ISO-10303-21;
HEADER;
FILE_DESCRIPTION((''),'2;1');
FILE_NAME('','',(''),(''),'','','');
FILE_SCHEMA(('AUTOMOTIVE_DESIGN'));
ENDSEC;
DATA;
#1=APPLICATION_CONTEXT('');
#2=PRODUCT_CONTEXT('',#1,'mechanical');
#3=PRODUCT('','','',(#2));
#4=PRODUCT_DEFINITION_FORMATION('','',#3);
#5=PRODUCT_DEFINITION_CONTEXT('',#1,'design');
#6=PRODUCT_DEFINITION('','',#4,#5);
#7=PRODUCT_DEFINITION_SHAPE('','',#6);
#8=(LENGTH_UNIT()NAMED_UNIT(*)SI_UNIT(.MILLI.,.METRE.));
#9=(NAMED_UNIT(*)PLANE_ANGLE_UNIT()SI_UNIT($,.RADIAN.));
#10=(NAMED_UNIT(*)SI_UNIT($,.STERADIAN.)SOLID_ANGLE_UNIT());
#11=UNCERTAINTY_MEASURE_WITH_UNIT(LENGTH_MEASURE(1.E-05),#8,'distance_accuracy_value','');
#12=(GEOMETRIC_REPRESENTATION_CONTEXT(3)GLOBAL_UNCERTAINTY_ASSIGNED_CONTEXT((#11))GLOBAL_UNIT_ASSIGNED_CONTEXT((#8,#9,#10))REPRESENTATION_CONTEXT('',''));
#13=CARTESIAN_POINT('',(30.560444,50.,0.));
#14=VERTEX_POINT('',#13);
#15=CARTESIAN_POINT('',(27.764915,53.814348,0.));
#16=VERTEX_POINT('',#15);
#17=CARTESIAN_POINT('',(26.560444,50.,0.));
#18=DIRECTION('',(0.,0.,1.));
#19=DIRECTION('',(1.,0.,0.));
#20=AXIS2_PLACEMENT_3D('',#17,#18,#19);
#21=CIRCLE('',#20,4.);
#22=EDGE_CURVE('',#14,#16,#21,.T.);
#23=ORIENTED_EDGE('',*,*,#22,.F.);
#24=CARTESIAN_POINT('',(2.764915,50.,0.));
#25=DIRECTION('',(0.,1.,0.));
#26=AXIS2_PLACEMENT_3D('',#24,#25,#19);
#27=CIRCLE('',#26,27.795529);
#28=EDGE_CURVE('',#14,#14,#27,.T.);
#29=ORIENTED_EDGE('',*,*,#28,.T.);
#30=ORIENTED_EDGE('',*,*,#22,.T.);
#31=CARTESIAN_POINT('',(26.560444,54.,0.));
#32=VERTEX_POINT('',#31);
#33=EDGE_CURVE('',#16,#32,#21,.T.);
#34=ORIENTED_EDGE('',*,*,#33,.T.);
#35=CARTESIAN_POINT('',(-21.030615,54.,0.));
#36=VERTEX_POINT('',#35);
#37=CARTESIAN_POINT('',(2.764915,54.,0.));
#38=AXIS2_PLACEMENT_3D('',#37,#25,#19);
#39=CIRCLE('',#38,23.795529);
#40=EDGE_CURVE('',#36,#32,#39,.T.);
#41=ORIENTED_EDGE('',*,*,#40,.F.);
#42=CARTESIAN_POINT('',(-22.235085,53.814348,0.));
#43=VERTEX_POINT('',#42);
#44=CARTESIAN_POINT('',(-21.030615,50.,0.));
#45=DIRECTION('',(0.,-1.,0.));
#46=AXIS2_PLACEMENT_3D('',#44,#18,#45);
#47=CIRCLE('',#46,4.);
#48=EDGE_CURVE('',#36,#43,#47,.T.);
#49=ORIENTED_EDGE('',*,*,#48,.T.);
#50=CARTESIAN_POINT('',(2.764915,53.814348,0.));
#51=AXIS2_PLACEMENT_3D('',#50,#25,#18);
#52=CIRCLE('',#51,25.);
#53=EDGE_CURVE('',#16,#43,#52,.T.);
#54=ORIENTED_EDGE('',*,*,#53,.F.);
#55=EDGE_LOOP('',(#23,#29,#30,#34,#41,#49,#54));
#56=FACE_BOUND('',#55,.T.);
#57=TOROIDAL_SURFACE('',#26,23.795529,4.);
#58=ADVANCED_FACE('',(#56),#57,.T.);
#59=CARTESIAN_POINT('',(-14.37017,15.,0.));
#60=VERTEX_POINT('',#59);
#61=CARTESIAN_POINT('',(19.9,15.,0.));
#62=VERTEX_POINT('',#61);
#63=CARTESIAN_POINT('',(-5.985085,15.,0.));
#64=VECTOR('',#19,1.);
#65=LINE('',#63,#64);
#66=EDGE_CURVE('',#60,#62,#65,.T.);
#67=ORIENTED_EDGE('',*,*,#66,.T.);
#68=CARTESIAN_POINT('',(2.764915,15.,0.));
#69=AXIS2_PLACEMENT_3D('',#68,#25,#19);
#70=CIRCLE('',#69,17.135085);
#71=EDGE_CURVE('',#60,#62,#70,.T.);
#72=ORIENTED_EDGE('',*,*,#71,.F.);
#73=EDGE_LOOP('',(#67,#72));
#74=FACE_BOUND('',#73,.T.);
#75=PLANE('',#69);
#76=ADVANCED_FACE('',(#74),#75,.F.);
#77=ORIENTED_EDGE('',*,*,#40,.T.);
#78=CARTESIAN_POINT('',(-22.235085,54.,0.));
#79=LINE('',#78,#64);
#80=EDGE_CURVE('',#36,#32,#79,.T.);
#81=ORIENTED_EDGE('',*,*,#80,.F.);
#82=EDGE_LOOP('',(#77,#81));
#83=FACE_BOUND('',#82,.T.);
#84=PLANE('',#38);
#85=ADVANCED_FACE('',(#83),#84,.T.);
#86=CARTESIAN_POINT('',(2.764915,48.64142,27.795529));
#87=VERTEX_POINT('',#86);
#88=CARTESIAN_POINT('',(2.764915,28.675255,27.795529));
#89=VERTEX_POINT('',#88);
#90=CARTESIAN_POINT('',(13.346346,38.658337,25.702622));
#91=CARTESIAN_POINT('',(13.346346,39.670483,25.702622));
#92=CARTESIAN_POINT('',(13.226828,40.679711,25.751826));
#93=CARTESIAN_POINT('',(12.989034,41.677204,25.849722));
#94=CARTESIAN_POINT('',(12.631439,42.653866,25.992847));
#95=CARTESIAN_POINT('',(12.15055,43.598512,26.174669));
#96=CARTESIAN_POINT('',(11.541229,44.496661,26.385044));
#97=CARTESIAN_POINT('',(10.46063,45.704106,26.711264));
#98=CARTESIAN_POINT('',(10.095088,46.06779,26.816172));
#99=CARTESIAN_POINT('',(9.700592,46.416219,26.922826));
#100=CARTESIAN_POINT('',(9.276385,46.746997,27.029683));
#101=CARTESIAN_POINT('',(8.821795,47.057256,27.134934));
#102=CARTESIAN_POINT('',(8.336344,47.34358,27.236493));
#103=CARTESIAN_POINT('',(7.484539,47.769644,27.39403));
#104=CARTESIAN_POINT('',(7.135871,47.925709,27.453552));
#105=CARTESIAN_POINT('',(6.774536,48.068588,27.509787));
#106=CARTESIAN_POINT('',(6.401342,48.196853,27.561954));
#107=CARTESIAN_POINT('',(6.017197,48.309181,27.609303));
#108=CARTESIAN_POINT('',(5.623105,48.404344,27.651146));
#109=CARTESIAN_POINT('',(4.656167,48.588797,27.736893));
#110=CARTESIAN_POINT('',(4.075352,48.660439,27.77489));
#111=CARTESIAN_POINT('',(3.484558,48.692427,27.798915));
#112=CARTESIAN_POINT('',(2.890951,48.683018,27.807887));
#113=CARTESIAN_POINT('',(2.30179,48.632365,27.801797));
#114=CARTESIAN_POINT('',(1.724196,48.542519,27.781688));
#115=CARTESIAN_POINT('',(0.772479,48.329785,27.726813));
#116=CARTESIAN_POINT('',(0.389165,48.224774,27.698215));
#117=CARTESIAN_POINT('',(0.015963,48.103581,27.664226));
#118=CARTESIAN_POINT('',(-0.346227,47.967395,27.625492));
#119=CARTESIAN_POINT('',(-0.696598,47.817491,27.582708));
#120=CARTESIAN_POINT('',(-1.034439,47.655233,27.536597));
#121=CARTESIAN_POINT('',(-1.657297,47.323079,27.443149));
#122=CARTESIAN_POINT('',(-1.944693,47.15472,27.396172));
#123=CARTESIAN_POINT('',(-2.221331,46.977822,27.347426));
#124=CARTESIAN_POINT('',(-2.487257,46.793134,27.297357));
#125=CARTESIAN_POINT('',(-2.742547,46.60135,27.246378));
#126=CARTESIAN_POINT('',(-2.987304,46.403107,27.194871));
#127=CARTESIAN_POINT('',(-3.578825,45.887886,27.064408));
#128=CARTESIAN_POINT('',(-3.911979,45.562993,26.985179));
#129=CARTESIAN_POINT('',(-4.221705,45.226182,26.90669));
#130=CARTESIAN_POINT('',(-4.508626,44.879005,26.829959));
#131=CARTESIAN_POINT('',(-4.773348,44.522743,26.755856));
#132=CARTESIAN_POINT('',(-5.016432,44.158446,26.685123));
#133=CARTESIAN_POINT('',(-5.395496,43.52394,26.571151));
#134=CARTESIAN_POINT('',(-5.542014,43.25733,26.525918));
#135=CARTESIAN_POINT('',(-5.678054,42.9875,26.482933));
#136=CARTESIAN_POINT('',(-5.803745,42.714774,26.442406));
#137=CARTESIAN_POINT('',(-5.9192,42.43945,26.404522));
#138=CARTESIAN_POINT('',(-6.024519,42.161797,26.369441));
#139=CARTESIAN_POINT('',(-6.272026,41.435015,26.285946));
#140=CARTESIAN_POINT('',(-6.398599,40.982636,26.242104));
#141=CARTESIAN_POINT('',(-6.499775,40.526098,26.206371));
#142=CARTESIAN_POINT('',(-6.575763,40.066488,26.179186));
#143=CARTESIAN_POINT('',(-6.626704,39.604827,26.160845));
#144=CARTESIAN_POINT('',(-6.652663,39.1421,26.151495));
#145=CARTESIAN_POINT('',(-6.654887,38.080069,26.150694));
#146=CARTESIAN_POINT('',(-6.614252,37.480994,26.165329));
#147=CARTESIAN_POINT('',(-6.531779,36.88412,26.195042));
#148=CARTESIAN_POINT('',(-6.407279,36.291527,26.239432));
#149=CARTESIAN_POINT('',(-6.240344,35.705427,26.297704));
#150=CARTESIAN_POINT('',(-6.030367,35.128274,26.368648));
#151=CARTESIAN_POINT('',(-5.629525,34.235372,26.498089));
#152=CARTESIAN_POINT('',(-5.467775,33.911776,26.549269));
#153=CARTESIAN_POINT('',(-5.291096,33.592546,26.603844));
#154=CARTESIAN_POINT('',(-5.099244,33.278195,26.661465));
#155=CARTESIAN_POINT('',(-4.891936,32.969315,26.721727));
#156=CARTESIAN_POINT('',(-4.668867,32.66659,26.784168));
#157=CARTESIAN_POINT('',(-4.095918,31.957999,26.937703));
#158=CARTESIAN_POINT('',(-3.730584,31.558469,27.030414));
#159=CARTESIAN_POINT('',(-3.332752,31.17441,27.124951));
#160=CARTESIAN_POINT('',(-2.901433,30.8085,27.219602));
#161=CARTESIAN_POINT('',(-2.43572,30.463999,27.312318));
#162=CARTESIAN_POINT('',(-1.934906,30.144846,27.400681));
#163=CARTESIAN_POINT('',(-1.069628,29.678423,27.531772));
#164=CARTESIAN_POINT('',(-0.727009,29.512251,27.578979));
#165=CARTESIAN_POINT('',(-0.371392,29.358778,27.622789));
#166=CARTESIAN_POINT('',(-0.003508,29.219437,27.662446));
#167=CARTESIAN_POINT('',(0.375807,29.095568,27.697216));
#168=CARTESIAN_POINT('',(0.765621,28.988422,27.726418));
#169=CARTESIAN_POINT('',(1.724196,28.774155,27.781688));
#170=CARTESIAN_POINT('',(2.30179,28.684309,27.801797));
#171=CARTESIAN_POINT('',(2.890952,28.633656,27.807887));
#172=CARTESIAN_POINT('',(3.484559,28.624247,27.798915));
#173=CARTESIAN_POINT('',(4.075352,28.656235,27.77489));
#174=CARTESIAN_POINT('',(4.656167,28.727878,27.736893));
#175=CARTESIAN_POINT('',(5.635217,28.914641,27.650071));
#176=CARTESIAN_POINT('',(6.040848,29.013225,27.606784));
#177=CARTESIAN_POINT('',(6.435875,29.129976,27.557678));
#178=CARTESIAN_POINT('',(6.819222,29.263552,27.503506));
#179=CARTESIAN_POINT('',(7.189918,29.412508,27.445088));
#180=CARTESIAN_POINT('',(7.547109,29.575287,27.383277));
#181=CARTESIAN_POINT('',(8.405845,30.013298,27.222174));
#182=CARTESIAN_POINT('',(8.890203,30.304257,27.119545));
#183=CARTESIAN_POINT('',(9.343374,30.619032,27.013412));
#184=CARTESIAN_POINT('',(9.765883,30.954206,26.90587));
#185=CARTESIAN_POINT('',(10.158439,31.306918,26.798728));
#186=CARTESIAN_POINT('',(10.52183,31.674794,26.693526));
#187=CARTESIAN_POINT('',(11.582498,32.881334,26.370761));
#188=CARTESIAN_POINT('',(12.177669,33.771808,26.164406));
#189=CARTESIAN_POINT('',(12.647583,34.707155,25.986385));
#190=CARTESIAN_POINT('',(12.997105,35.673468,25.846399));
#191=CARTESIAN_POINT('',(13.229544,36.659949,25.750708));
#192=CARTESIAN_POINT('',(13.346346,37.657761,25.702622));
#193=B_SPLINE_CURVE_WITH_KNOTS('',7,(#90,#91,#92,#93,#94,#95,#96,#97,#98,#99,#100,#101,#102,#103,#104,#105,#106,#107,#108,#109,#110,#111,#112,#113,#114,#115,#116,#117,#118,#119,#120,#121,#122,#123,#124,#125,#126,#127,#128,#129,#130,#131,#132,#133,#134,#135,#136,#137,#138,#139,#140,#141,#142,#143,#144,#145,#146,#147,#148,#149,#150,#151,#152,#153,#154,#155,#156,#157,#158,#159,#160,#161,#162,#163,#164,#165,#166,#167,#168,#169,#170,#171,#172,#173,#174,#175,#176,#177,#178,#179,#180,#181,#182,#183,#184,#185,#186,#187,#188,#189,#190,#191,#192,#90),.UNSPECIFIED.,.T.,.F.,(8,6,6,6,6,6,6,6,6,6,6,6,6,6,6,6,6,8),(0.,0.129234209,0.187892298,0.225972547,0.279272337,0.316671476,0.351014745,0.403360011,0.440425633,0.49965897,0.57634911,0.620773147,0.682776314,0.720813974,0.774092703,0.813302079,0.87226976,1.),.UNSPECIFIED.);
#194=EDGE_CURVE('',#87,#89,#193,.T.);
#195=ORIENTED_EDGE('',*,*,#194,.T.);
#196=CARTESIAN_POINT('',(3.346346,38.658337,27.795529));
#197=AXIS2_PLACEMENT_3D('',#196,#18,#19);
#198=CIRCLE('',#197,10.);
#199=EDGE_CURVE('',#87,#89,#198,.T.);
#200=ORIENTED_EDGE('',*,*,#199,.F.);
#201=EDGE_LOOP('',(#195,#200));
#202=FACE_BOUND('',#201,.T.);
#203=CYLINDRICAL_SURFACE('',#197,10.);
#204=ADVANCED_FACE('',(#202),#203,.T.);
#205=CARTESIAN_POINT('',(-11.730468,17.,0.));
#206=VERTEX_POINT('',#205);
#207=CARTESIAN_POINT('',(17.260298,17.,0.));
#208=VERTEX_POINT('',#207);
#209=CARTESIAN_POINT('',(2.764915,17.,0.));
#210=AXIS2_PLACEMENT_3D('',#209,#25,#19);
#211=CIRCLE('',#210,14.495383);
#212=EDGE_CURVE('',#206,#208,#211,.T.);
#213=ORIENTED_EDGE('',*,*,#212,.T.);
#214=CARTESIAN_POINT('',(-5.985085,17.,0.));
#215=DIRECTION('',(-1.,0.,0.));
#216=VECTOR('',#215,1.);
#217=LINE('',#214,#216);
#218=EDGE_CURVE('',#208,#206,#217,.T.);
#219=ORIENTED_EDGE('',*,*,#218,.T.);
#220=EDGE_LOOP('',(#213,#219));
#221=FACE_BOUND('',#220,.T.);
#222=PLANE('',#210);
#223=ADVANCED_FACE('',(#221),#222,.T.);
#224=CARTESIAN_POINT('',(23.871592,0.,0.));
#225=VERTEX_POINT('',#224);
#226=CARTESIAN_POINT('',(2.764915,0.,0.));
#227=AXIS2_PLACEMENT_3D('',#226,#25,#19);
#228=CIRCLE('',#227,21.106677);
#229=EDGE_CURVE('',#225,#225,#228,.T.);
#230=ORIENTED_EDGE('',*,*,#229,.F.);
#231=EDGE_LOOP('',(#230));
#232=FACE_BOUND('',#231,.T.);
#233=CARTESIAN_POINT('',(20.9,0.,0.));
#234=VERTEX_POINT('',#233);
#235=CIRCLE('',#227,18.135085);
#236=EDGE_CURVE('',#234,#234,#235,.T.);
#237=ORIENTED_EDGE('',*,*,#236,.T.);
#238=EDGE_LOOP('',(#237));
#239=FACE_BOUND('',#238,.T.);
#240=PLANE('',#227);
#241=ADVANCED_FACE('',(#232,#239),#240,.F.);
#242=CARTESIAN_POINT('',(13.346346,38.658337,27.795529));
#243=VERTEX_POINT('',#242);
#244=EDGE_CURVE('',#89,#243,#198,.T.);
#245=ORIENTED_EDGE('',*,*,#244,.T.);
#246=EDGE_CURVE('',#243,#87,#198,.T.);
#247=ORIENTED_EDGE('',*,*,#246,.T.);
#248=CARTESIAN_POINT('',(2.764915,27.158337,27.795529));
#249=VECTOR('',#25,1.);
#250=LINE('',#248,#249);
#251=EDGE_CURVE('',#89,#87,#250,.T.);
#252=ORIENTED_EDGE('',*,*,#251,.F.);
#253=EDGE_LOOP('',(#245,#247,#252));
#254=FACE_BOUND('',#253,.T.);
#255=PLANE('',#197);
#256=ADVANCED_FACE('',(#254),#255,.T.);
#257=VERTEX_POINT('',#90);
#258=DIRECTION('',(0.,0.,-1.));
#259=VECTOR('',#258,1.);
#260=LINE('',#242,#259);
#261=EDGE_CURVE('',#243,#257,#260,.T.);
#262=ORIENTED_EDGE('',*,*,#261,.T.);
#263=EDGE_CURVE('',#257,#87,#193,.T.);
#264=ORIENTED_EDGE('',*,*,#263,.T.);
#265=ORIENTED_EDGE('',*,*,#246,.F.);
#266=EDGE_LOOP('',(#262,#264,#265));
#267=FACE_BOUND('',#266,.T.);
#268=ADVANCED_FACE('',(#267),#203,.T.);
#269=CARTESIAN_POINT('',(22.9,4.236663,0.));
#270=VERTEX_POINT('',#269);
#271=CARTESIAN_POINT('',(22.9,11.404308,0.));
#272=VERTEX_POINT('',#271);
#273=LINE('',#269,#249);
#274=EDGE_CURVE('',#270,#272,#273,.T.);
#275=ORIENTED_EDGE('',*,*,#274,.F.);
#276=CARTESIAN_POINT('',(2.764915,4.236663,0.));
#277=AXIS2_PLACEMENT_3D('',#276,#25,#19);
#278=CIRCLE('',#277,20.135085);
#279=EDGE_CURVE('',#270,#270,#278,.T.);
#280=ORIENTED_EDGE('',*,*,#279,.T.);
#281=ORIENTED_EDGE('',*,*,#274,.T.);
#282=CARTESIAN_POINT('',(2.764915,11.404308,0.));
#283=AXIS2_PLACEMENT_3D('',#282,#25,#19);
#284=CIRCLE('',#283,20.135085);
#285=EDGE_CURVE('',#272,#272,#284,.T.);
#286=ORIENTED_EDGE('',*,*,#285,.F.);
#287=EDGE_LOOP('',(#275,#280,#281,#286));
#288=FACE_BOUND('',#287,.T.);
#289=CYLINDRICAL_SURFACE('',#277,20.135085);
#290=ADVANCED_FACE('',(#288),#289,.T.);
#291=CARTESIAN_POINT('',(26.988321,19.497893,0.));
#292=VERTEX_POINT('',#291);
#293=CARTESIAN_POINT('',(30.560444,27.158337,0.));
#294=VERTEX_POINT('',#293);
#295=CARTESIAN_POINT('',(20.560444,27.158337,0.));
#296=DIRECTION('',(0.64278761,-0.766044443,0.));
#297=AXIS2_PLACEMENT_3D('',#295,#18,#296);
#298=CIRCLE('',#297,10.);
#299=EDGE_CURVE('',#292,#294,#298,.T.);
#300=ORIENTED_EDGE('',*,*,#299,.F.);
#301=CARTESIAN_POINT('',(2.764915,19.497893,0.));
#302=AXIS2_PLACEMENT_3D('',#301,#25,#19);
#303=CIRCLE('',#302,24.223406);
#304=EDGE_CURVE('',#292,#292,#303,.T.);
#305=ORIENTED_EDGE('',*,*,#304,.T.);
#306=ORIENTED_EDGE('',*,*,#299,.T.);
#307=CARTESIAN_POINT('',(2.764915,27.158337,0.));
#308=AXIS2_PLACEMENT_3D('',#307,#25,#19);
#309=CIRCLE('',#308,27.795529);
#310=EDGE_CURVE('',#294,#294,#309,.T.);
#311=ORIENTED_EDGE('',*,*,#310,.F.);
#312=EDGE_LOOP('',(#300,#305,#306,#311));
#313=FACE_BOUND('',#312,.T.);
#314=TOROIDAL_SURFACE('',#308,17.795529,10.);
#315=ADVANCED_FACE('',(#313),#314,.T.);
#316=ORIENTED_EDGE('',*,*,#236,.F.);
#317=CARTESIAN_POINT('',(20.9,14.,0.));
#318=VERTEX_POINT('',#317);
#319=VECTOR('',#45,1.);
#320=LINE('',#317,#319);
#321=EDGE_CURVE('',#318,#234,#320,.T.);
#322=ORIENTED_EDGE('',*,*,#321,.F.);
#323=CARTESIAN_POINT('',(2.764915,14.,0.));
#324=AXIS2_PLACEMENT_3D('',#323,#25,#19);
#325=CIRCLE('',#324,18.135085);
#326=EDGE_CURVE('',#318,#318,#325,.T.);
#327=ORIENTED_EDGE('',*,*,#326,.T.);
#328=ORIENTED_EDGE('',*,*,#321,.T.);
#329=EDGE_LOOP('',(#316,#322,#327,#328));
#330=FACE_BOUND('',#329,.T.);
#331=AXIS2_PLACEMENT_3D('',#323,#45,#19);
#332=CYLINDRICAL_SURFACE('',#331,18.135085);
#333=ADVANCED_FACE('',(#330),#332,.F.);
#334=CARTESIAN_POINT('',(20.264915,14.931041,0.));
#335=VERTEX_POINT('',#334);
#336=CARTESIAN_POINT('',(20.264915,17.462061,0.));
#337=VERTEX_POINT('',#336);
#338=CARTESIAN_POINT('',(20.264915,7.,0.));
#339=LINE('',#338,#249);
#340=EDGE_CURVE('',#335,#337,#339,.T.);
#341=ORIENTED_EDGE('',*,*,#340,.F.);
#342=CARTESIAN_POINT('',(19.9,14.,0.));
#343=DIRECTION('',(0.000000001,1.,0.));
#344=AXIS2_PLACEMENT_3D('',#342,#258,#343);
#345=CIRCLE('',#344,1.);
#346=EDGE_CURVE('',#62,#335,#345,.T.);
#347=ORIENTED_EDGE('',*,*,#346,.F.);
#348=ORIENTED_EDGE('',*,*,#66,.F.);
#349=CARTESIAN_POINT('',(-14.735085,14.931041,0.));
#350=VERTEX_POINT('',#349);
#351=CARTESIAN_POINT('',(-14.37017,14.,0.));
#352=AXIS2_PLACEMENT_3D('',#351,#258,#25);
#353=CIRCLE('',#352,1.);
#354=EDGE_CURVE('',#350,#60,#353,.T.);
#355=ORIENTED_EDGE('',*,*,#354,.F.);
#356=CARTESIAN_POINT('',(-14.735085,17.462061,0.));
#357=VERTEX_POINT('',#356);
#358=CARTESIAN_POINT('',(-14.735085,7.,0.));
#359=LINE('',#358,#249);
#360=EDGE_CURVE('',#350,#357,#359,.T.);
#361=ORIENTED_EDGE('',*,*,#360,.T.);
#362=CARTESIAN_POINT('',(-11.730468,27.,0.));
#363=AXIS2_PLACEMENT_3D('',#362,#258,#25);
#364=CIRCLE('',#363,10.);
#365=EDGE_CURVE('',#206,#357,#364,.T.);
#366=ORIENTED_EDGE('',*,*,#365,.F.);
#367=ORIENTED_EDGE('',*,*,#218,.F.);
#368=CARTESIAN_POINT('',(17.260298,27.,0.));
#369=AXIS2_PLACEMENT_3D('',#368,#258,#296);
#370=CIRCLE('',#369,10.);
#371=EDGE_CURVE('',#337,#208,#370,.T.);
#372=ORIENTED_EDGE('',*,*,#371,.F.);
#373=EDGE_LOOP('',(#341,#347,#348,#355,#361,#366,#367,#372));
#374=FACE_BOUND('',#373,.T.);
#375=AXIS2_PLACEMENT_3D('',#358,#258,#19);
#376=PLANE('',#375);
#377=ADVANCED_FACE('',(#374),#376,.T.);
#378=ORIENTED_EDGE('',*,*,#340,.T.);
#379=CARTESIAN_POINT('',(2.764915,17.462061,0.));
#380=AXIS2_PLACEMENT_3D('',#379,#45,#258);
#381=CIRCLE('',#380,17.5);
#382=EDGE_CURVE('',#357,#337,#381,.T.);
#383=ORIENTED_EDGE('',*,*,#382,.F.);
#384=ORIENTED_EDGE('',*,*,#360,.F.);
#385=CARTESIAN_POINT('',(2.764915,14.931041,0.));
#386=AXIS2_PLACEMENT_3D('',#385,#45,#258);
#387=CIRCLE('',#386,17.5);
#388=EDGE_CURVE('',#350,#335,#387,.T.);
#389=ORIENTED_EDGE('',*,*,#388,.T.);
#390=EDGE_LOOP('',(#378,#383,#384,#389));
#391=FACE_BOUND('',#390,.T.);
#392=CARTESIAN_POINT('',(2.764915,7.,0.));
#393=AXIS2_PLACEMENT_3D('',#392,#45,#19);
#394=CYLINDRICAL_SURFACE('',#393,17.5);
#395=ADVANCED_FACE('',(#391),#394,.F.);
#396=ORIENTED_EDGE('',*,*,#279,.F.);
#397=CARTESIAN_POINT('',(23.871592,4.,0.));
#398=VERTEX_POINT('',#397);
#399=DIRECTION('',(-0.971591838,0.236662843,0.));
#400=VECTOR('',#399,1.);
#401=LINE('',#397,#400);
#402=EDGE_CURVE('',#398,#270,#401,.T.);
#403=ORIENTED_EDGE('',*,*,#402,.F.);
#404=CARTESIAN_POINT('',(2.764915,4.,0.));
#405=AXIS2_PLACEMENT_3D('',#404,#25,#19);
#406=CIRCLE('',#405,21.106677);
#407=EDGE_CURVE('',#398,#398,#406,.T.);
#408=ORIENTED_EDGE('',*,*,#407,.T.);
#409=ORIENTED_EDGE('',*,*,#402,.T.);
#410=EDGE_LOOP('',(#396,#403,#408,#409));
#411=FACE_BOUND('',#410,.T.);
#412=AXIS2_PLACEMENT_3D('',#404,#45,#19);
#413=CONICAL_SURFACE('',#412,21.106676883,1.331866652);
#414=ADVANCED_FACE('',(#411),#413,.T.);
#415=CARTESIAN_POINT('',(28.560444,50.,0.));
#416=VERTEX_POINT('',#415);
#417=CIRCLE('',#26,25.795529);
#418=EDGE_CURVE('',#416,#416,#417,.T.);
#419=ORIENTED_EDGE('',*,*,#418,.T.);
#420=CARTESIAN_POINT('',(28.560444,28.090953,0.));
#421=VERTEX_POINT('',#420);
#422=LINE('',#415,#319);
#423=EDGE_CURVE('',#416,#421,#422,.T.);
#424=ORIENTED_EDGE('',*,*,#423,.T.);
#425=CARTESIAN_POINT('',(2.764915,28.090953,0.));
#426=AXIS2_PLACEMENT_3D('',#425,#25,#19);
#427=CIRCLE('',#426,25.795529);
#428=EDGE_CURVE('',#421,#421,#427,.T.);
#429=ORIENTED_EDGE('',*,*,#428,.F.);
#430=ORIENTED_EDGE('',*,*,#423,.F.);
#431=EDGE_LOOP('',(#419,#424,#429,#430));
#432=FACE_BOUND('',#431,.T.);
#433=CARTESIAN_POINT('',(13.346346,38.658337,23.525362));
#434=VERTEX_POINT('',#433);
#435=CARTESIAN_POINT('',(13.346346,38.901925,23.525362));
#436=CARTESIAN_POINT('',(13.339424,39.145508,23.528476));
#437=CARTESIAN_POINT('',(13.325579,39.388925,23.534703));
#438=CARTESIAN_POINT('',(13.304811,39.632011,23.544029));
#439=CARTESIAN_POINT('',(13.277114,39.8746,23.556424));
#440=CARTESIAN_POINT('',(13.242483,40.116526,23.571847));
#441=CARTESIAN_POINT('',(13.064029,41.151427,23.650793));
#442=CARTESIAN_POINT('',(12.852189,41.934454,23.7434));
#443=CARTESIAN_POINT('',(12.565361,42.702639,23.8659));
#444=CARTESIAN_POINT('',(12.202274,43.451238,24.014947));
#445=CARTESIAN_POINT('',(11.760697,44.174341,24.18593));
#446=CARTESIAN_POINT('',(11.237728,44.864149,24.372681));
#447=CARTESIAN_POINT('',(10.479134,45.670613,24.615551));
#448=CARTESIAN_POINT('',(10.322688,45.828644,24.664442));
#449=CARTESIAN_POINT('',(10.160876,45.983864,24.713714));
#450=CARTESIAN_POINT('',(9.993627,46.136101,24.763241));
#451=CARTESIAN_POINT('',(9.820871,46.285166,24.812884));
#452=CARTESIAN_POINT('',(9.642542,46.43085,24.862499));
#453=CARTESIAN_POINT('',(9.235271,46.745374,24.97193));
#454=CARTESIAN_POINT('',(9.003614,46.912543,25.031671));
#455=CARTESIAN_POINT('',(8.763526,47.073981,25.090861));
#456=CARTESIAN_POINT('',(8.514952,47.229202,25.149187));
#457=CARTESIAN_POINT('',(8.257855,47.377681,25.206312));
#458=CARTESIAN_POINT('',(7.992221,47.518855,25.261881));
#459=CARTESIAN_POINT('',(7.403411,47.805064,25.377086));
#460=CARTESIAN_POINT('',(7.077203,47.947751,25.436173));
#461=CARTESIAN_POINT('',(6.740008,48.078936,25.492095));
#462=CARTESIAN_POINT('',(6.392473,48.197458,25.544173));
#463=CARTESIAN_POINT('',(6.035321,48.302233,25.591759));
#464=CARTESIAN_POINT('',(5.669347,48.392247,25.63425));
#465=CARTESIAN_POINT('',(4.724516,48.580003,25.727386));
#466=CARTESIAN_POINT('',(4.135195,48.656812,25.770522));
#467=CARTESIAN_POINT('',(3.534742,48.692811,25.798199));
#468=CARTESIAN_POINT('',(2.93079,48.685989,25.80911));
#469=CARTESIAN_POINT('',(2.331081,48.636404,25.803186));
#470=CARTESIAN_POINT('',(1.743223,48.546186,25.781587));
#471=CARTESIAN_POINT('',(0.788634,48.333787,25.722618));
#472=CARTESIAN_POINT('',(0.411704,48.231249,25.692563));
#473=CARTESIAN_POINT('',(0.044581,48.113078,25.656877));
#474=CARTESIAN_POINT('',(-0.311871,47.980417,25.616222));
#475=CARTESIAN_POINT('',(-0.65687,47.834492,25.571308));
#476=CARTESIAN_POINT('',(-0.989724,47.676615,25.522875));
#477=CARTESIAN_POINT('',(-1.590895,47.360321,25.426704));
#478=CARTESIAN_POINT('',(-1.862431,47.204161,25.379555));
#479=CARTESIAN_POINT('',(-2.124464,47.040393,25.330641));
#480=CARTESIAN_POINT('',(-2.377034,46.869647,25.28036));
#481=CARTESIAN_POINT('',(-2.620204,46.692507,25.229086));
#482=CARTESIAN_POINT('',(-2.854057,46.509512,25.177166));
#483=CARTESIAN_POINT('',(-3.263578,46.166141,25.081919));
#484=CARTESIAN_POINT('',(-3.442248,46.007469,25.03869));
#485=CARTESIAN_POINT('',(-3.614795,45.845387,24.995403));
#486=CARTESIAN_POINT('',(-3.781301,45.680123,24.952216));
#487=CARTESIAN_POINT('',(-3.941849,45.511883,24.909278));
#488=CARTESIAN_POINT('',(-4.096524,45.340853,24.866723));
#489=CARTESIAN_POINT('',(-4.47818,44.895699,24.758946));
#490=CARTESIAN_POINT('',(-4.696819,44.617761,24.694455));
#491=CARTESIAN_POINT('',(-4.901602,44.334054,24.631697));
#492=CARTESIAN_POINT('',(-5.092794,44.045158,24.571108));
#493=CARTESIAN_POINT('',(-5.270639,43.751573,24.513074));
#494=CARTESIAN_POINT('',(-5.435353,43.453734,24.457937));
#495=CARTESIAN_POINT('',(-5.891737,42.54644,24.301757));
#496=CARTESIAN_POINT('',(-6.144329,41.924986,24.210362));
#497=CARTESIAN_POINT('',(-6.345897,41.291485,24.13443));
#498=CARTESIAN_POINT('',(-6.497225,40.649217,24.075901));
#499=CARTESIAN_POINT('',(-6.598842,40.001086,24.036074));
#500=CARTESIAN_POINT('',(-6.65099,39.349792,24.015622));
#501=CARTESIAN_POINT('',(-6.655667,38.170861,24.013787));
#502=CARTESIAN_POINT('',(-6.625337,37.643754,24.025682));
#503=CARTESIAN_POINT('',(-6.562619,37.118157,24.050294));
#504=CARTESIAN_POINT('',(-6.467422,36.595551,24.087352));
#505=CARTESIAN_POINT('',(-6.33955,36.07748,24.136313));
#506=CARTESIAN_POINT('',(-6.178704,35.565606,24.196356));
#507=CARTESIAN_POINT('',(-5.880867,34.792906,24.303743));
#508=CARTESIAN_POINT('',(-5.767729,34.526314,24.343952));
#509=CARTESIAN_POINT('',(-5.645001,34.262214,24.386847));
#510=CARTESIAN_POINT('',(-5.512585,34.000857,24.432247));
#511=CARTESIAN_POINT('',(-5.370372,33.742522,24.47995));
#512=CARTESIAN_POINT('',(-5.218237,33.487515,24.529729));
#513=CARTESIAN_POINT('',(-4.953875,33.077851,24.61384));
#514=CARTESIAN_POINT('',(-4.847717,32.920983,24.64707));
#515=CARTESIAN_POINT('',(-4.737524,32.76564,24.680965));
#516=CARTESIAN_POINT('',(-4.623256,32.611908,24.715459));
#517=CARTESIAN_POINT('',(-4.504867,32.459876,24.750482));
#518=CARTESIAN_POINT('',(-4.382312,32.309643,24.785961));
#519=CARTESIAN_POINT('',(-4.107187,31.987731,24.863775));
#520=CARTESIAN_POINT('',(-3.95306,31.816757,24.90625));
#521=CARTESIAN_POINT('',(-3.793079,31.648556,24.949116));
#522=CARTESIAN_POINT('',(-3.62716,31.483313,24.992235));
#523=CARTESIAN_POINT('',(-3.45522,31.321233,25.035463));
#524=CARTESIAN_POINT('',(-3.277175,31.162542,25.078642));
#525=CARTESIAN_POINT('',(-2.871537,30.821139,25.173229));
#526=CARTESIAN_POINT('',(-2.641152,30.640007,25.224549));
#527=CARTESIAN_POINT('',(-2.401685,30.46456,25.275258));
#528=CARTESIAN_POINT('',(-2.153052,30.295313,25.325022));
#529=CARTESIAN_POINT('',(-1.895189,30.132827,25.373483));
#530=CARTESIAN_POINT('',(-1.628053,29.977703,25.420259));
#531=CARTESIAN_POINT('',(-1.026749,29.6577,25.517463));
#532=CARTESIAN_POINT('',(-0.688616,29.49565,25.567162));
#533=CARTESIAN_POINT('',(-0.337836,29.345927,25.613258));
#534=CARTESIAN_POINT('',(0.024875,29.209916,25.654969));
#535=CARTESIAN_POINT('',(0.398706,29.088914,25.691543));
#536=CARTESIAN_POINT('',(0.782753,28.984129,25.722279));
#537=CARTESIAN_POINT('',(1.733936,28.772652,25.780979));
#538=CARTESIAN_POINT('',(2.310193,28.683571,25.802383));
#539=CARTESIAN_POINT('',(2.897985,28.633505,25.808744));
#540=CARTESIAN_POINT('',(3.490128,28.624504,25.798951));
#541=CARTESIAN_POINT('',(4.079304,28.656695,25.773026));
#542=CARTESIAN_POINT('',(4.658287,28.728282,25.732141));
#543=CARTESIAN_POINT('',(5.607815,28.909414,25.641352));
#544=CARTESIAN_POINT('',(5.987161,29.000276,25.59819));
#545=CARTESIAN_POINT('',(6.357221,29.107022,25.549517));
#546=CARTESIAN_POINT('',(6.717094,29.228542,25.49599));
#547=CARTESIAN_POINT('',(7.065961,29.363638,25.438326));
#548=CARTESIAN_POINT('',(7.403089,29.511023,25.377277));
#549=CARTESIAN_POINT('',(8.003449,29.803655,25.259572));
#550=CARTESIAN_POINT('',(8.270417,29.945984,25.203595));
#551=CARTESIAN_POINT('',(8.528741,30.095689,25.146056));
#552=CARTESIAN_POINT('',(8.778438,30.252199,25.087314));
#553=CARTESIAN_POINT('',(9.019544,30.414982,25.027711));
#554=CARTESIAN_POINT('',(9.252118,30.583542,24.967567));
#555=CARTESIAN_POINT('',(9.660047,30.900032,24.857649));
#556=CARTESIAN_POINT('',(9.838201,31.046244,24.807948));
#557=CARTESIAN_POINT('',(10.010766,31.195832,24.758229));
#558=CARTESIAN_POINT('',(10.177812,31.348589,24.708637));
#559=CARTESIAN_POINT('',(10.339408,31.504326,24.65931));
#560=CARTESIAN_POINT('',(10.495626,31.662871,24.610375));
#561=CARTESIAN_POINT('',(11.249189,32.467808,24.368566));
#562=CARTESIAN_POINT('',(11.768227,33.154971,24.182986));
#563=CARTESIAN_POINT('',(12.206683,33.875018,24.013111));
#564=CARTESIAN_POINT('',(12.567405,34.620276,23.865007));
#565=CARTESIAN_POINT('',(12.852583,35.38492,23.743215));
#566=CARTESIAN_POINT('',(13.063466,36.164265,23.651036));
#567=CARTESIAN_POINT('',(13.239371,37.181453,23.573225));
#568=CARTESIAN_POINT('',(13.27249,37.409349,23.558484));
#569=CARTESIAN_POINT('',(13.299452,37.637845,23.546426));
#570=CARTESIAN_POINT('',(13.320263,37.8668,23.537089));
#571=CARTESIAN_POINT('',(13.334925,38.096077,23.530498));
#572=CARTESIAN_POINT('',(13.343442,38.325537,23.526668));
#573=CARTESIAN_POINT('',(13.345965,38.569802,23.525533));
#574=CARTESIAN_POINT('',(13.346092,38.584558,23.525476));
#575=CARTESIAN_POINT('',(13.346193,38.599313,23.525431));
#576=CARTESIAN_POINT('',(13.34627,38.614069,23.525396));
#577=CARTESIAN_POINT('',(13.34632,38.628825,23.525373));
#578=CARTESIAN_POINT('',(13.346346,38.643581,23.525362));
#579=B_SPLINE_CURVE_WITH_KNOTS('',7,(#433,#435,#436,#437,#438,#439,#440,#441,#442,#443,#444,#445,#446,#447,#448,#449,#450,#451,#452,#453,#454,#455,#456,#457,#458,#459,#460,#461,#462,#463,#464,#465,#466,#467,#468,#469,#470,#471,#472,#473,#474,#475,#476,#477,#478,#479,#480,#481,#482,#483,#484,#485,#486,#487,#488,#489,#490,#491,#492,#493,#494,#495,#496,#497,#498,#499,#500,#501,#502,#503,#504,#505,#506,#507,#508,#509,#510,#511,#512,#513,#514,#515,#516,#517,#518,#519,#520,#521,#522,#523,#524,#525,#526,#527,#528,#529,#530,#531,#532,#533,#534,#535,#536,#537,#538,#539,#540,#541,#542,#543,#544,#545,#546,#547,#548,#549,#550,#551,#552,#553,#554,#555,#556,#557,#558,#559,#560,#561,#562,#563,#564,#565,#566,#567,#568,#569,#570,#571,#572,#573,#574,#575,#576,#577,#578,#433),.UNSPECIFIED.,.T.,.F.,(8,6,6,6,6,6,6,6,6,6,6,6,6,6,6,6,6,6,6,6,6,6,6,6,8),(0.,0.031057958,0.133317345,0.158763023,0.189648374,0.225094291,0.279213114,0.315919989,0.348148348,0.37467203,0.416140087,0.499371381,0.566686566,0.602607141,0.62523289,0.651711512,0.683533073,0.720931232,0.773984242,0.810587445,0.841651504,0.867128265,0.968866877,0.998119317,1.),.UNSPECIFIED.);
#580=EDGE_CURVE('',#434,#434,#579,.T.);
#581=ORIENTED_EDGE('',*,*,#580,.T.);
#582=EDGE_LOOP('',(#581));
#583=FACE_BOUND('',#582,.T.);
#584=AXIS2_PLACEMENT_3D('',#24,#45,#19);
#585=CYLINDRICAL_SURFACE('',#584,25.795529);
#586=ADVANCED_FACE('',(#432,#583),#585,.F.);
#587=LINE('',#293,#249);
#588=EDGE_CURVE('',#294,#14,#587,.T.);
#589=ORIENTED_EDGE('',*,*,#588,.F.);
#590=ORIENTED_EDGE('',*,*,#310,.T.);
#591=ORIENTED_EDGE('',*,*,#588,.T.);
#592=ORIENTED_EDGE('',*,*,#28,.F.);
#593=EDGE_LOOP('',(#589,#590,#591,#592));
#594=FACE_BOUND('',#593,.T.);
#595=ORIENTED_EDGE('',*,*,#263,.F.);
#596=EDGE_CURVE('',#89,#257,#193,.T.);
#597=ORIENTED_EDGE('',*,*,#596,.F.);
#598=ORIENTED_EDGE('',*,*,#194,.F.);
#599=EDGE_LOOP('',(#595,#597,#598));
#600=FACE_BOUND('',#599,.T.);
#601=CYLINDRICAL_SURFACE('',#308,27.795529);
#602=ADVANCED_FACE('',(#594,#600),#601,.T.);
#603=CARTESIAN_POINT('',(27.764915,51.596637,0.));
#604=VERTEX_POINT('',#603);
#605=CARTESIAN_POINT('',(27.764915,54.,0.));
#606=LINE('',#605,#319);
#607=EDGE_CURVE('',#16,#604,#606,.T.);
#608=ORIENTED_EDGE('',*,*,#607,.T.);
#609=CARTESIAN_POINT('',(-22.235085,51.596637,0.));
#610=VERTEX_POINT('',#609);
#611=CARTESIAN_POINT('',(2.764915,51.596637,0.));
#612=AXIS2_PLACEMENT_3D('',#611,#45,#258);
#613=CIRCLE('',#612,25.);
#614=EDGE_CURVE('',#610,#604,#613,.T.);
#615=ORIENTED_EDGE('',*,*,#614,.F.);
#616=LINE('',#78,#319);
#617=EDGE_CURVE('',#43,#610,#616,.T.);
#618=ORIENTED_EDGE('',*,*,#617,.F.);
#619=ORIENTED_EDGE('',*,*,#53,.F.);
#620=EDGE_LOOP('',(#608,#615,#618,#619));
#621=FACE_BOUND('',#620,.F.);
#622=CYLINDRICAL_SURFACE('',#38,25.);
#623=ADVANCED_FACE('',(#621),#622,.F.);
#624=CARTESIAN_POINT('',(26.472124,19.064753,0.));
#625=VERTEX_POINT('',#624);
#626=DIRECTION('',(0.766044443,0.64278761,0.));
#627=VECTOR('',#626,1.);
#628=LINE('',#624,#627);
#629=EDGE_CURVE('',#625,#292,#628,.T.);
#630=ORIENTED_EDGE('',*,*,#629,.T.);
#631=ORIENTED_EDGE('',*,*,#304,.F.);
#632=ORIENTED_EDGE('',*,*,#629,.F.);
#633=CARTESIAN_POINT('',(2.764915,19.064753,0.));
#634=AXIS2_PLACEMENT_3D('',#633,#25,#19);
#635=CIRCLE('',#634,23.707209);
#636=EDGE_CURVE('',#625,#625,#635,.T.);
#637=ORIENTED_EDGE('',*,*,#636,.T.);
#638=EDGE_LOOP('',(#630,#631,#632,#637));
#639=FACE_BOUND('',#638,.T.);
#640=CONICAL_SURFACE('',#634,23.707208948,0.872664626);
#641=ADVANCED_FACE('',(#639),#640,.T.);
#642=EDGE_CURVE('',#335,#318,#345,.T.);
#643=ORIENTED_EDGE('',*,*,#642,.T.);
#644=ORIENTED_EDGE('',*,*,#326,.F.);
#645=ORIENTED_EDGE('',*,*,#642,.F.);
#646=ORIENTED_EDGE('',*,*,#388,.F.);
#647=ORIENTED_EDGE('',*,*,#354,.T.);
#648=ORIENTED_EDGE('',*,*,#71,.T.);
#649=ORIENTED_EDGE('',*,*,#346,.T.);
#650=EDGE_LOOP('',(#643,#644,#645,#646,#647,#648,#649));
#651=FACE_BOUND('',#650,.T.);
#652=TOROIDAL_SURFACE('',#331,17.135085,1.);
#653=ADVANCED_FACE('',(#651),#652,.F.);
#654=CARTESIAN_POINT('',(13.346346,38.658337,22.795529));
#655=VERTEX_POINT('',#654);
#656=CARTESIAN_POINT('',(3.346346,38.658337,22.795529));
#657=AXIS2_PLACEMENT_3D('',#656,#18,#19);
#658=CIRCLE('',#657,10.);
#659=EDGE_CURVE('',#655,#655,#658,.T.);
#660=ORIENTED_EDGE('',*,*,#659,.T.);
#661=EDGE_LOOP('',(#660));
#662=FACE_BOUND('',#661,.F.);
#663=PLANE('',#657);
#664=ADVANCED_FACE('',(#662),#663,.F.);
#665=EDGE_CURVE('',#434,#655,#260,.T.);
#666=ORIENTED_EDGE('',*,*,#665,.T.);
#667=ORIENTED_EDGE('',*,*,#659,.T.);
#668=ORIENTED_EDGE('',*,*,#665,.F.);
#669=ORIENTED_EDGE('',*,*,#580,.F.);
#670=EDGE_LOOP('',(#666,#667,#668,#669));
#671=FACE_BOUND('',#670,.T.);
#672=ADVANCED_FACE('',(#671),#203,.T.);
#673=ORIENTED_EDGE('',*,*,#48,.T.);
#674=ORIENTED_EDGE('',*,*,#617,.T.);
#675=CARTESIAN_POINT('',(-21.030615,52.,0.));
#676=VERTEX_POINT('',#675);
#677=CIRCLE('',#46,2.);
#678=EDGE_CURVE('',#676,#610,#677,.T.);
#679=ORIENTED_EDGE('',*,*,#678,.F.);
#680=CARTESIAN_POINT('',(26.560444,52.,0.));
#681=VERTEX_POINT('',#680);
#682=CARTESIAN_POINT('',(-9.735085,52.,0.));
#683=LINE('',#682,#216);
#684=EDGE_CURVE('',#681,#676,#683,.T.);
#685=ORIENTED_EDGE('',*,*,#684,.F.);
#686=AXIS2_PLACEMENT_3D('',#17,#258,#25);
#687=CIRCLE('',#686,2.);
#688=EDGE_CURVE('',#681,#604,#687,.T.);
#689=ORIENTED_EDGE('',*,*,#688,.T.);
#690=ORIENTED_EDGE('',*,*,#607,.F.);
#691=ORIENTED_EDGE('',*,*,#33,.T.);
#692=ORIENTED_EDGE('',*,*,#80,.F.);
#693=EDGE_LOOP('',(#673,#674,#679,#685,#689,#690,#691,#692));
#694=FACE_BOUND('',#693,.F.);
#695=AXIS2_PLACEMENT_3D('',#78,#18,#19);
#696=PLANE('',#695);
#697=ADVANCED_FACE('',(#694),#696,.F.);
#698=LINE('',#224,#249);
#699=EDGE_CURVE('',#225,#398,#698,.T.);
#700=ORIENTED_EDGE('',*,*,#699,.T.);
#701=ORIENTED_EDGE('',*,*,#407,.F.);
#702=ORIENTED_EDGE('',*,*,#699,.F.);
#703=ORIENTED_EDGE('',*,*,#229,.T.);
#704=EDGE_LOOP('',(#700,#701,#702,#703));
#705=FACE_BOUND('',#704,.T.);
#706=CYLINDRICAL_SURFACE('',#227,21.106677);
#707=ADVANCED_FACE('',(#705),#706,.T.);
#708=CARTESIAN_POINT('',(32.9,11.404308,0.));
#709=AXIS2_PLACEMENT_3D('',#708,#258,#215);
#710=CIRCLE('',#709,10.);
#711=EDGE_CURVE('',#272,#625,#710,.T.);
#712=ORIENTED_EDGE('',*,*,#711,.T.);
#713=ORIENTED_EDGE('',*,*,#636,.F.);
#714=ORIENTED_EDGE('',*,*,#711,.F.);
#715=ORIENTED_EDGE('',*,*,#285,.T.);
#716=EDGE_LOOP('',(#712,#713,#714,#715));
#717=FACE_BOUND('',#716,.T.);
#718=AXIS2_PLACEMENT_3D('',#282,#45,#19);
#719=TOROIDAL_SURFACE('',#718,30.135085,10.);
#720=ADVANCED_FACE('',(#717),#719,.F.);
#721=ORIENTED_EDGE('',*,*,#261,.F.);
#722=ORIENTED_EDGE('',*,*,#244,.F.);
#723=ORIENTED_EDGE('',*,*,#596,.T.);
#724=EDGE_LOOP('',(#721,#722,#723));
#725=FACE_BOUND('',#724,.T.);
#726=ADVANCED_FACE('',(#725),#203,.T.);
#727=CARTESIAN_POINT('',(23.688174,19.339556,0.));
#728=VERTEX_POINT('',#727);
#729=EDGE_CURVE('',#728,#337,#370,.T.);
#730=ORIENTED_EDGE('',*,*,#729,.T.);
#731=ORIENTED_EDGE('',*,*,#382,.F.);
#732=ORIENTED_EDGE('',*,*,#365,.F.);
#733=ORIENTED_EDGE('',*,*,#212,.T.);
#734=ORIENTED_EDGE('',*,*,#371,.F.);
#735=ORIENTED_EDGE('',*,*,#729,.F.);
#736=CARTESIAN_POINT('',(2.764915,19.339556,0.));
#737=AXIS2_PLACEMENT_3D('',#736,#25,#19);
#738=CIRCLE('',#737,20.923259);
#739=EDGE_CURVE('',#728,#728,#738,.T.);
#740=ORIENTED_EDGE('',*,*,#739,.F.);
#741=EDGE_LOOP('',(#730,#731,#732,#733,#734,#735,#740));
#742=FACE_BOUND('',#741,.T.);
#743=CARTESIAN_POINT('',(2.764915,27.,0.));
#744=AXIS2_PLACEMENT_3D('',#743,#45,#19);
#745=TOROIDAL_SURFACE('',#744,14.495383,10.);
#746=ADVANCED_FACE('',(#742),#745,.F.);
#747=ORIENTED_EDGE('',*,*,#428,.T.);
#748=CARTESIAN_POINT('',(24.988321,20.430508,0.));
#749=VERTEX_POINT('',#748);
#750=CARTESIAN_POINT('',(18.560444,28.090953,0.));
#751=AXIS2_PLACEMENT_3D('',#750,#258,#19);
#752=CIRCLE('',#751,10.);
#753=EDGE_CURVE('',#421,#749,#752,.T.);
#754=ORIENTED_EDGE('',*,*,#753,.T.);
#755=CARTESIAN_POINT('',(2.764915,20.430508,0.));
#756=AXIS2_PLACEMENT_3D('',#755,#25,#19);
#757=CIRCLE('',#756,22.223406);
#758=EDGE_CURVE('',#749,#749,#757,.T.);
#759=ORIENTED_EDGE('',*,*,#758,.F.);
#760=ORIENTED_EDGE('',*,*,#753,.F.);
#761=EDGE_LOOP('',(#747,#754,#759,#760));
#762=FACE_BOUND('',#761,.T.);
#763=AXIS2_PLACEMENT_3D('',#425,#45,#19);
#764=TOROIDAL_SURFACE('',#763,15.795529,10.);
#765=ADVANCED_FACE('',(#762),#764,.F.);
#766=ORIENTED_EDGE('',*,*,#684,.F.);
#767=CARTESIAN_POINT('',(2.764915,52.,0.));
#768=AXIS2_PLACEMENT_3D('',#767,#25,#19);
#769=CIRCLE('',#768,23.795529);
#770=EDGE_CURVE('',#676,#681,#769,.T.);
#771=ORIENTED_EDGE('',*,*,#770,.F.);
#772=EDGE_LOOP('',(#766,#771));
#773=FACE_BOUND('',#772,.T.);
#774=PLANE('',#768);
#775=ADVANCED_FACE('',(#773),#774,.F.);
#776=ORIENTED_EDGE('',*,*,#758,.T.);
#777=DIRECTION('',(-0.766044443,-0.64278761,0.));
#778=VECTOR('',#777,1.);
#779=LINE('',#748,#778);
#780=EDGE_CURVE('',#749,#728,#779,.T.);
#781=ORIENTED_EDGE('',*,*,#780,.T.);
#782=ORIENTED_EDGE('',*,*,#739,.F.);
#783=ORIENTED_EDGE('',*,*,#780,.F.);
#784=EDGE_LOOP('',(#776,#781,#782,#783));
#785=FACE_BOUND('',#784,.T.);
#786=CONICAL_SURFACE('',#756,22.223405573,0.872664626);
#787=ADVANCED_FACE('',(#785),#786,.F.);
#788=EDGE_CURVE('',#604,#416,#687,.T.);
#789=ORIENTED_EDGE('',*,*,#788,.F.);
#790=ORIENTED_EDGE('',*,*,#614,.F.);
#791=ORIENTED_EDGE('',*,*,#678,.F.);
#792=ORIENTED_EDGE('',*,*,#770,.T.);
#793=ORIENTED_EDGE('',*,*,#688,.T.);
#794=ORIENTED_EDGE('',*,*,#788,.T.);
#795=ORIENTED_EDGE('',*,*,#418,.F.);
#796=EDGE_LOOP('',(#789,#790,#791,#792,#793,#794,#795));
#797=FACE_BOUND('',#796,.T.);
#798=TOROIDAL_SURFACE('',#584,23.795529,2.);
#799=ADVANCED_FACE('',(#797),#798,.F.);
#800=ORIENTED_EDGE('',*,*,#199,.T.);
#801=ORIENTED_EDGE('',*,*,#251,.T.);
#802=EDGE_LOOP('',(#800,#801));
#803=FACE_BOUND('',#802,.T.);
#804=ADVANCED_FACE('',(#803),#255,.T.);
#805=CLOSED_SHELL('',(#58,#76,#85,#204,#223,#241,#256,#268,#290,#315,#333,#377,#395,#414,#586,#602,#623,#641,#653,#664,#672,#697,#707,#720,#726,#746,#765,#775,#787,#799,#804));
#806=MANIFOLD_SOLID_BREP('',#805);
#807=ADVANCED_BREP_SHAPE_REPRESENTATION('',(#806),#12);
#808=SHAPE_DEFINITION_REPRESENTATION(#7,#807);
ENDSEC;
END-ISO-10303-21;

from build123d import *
from build123d.topology import SkipClean

# Parameters (mm, degrees)
CUT_EXTRUDE2_DEPTH      = 25
SKETCH10_R              = 10
BOSS_EXTRUDE1_DEPTH     = 5
CUT_EXTRUDE3_DEPTH      = 5
CUT_EXTRUDE3_DEPTH_BACK = 10


with BuildPart() as part:
    # Sketch1 → Revolve1 (revolve)
    with BuildSketch(Plane.XY):
        with BuildLine():
            Line((20.9, 0), (23.871591838, 0))
            Line((23.871591838, 0), (23.871591838, 4))
            Line((23.871591838, 4), (22.9, 4.236662843))
            Line((22.9, 4.236662843), (22.9, 11.404308102))
            ThreePointArc((22.9, 11.404308102), (23.83692213, 15.63049072), (26.472123903, 19.064752533))
            Line((26.472123903, 19.064752533), (26.988320528, 19.497892931))
            ThreePointArc((26.988320528, 19.497892931), (29.623522302, 22.932154745), (30.560444431, 27.158337362))
            Line((30.560444431, 27.158337362), (30.560444431, 50))
            ThreePointArc((30.560444431, 50), (29.388871556, 52.828427125), (26.560444431, 54))
            Line((26.560444431, 54), (2.764914955, 54))
            Line((2.764914955, 54), (2.764914955, 52))
            Line((2.764914955, 52), (26.560444431, 52))
            ThreePointArc((26.560444431, 52), (27.974657994, 51.414213562), (28.560444431, 50))
            Line((28.560444431, 50), (28.560444431, 28.090952678))
            ThreePointArc((28.560444431, 28.090952678), (27.623522302, 23.864770061), (24.988320528, 20.430508247))
            Line((24.988320528, 20.430508247), (23.688173754, 19.339555569))
            ThreePointArc((23.688173754, 19.339555569), (20.680499091, 17.603073792), (17.260297657, 17))
            Line((17.260297657, 17), (2.764914955, 17))
            Line((2.764914955, 17), (2.764914955, 15))
            Line((2.764914955, 15), (19.9, 15))
            ThreePointArc((19.9, 15), (20.607106781, 14.707106781), (20.9, 14))
            Line((20.9, 14), (20.9, 0))
        make_face()
    revolve(axis=Axis((2.764914955, 7.821821657, 0), (0, 1, 0)))

    # Sketch9 → Cut-Extrude2 (cut)
    with BuildSketch(Plane(origin=(0, 54, 0), x_dir=(1, 0, 0), z_dir=(0, 1, 0))):
        with BuildLine():
            Line((-22.235085045, 0), (27.764914955, 0))
            ThreePointArc((27.764914955, 0), (2.764914955, 25), (-22.235085045, 0))
        make_face()
    extrude(amount=-CUT_EXTRUDE2_DEPTH, mode=Mode.SUBTRACT)

    # Sketch10 → Boss-Extrude1 (add)
    with SkipClean():  # the faces are left unmerged after this step: merging them gives an invalid solid
        with BuildSketch(Plane.XY.offset(27.795529476)):
            with Locations((3.346345887, 38.658337362)):
                Circle(SKETCH10_R)
        extrude(amount=-BOSS_EXTRUDE1_DEPTH)

    # Sketch11 → Cut-Extrude3 (cut, two sides: drawn at the far end of the back side and taken through both)
    with SkipClean():  # the faces are left unmerged after this step: merging them gives an invalid solid
        with BuildSketch(Plane(origin=(0, 17, 0), x_dir=(1, 0, 0), z_dir=(0, 1, 0)).offset(-CUT_EXTRUDE3_DEPTH_BACK)):
            with BuildLine():
                Line((-14.735085045, 0), (20.264914955, 0))
                ThreePointArc((20.264914955, 0), (2.764914955, 17.5), (-14.735085045, 0))
            make_face()
        extrude(amount=CUT_EXTRUDE3_DEPTH + CUT_EXTRUDE3_DEPTH_BACK, mode=Mode.SUBTRACT)


solid = part.part
